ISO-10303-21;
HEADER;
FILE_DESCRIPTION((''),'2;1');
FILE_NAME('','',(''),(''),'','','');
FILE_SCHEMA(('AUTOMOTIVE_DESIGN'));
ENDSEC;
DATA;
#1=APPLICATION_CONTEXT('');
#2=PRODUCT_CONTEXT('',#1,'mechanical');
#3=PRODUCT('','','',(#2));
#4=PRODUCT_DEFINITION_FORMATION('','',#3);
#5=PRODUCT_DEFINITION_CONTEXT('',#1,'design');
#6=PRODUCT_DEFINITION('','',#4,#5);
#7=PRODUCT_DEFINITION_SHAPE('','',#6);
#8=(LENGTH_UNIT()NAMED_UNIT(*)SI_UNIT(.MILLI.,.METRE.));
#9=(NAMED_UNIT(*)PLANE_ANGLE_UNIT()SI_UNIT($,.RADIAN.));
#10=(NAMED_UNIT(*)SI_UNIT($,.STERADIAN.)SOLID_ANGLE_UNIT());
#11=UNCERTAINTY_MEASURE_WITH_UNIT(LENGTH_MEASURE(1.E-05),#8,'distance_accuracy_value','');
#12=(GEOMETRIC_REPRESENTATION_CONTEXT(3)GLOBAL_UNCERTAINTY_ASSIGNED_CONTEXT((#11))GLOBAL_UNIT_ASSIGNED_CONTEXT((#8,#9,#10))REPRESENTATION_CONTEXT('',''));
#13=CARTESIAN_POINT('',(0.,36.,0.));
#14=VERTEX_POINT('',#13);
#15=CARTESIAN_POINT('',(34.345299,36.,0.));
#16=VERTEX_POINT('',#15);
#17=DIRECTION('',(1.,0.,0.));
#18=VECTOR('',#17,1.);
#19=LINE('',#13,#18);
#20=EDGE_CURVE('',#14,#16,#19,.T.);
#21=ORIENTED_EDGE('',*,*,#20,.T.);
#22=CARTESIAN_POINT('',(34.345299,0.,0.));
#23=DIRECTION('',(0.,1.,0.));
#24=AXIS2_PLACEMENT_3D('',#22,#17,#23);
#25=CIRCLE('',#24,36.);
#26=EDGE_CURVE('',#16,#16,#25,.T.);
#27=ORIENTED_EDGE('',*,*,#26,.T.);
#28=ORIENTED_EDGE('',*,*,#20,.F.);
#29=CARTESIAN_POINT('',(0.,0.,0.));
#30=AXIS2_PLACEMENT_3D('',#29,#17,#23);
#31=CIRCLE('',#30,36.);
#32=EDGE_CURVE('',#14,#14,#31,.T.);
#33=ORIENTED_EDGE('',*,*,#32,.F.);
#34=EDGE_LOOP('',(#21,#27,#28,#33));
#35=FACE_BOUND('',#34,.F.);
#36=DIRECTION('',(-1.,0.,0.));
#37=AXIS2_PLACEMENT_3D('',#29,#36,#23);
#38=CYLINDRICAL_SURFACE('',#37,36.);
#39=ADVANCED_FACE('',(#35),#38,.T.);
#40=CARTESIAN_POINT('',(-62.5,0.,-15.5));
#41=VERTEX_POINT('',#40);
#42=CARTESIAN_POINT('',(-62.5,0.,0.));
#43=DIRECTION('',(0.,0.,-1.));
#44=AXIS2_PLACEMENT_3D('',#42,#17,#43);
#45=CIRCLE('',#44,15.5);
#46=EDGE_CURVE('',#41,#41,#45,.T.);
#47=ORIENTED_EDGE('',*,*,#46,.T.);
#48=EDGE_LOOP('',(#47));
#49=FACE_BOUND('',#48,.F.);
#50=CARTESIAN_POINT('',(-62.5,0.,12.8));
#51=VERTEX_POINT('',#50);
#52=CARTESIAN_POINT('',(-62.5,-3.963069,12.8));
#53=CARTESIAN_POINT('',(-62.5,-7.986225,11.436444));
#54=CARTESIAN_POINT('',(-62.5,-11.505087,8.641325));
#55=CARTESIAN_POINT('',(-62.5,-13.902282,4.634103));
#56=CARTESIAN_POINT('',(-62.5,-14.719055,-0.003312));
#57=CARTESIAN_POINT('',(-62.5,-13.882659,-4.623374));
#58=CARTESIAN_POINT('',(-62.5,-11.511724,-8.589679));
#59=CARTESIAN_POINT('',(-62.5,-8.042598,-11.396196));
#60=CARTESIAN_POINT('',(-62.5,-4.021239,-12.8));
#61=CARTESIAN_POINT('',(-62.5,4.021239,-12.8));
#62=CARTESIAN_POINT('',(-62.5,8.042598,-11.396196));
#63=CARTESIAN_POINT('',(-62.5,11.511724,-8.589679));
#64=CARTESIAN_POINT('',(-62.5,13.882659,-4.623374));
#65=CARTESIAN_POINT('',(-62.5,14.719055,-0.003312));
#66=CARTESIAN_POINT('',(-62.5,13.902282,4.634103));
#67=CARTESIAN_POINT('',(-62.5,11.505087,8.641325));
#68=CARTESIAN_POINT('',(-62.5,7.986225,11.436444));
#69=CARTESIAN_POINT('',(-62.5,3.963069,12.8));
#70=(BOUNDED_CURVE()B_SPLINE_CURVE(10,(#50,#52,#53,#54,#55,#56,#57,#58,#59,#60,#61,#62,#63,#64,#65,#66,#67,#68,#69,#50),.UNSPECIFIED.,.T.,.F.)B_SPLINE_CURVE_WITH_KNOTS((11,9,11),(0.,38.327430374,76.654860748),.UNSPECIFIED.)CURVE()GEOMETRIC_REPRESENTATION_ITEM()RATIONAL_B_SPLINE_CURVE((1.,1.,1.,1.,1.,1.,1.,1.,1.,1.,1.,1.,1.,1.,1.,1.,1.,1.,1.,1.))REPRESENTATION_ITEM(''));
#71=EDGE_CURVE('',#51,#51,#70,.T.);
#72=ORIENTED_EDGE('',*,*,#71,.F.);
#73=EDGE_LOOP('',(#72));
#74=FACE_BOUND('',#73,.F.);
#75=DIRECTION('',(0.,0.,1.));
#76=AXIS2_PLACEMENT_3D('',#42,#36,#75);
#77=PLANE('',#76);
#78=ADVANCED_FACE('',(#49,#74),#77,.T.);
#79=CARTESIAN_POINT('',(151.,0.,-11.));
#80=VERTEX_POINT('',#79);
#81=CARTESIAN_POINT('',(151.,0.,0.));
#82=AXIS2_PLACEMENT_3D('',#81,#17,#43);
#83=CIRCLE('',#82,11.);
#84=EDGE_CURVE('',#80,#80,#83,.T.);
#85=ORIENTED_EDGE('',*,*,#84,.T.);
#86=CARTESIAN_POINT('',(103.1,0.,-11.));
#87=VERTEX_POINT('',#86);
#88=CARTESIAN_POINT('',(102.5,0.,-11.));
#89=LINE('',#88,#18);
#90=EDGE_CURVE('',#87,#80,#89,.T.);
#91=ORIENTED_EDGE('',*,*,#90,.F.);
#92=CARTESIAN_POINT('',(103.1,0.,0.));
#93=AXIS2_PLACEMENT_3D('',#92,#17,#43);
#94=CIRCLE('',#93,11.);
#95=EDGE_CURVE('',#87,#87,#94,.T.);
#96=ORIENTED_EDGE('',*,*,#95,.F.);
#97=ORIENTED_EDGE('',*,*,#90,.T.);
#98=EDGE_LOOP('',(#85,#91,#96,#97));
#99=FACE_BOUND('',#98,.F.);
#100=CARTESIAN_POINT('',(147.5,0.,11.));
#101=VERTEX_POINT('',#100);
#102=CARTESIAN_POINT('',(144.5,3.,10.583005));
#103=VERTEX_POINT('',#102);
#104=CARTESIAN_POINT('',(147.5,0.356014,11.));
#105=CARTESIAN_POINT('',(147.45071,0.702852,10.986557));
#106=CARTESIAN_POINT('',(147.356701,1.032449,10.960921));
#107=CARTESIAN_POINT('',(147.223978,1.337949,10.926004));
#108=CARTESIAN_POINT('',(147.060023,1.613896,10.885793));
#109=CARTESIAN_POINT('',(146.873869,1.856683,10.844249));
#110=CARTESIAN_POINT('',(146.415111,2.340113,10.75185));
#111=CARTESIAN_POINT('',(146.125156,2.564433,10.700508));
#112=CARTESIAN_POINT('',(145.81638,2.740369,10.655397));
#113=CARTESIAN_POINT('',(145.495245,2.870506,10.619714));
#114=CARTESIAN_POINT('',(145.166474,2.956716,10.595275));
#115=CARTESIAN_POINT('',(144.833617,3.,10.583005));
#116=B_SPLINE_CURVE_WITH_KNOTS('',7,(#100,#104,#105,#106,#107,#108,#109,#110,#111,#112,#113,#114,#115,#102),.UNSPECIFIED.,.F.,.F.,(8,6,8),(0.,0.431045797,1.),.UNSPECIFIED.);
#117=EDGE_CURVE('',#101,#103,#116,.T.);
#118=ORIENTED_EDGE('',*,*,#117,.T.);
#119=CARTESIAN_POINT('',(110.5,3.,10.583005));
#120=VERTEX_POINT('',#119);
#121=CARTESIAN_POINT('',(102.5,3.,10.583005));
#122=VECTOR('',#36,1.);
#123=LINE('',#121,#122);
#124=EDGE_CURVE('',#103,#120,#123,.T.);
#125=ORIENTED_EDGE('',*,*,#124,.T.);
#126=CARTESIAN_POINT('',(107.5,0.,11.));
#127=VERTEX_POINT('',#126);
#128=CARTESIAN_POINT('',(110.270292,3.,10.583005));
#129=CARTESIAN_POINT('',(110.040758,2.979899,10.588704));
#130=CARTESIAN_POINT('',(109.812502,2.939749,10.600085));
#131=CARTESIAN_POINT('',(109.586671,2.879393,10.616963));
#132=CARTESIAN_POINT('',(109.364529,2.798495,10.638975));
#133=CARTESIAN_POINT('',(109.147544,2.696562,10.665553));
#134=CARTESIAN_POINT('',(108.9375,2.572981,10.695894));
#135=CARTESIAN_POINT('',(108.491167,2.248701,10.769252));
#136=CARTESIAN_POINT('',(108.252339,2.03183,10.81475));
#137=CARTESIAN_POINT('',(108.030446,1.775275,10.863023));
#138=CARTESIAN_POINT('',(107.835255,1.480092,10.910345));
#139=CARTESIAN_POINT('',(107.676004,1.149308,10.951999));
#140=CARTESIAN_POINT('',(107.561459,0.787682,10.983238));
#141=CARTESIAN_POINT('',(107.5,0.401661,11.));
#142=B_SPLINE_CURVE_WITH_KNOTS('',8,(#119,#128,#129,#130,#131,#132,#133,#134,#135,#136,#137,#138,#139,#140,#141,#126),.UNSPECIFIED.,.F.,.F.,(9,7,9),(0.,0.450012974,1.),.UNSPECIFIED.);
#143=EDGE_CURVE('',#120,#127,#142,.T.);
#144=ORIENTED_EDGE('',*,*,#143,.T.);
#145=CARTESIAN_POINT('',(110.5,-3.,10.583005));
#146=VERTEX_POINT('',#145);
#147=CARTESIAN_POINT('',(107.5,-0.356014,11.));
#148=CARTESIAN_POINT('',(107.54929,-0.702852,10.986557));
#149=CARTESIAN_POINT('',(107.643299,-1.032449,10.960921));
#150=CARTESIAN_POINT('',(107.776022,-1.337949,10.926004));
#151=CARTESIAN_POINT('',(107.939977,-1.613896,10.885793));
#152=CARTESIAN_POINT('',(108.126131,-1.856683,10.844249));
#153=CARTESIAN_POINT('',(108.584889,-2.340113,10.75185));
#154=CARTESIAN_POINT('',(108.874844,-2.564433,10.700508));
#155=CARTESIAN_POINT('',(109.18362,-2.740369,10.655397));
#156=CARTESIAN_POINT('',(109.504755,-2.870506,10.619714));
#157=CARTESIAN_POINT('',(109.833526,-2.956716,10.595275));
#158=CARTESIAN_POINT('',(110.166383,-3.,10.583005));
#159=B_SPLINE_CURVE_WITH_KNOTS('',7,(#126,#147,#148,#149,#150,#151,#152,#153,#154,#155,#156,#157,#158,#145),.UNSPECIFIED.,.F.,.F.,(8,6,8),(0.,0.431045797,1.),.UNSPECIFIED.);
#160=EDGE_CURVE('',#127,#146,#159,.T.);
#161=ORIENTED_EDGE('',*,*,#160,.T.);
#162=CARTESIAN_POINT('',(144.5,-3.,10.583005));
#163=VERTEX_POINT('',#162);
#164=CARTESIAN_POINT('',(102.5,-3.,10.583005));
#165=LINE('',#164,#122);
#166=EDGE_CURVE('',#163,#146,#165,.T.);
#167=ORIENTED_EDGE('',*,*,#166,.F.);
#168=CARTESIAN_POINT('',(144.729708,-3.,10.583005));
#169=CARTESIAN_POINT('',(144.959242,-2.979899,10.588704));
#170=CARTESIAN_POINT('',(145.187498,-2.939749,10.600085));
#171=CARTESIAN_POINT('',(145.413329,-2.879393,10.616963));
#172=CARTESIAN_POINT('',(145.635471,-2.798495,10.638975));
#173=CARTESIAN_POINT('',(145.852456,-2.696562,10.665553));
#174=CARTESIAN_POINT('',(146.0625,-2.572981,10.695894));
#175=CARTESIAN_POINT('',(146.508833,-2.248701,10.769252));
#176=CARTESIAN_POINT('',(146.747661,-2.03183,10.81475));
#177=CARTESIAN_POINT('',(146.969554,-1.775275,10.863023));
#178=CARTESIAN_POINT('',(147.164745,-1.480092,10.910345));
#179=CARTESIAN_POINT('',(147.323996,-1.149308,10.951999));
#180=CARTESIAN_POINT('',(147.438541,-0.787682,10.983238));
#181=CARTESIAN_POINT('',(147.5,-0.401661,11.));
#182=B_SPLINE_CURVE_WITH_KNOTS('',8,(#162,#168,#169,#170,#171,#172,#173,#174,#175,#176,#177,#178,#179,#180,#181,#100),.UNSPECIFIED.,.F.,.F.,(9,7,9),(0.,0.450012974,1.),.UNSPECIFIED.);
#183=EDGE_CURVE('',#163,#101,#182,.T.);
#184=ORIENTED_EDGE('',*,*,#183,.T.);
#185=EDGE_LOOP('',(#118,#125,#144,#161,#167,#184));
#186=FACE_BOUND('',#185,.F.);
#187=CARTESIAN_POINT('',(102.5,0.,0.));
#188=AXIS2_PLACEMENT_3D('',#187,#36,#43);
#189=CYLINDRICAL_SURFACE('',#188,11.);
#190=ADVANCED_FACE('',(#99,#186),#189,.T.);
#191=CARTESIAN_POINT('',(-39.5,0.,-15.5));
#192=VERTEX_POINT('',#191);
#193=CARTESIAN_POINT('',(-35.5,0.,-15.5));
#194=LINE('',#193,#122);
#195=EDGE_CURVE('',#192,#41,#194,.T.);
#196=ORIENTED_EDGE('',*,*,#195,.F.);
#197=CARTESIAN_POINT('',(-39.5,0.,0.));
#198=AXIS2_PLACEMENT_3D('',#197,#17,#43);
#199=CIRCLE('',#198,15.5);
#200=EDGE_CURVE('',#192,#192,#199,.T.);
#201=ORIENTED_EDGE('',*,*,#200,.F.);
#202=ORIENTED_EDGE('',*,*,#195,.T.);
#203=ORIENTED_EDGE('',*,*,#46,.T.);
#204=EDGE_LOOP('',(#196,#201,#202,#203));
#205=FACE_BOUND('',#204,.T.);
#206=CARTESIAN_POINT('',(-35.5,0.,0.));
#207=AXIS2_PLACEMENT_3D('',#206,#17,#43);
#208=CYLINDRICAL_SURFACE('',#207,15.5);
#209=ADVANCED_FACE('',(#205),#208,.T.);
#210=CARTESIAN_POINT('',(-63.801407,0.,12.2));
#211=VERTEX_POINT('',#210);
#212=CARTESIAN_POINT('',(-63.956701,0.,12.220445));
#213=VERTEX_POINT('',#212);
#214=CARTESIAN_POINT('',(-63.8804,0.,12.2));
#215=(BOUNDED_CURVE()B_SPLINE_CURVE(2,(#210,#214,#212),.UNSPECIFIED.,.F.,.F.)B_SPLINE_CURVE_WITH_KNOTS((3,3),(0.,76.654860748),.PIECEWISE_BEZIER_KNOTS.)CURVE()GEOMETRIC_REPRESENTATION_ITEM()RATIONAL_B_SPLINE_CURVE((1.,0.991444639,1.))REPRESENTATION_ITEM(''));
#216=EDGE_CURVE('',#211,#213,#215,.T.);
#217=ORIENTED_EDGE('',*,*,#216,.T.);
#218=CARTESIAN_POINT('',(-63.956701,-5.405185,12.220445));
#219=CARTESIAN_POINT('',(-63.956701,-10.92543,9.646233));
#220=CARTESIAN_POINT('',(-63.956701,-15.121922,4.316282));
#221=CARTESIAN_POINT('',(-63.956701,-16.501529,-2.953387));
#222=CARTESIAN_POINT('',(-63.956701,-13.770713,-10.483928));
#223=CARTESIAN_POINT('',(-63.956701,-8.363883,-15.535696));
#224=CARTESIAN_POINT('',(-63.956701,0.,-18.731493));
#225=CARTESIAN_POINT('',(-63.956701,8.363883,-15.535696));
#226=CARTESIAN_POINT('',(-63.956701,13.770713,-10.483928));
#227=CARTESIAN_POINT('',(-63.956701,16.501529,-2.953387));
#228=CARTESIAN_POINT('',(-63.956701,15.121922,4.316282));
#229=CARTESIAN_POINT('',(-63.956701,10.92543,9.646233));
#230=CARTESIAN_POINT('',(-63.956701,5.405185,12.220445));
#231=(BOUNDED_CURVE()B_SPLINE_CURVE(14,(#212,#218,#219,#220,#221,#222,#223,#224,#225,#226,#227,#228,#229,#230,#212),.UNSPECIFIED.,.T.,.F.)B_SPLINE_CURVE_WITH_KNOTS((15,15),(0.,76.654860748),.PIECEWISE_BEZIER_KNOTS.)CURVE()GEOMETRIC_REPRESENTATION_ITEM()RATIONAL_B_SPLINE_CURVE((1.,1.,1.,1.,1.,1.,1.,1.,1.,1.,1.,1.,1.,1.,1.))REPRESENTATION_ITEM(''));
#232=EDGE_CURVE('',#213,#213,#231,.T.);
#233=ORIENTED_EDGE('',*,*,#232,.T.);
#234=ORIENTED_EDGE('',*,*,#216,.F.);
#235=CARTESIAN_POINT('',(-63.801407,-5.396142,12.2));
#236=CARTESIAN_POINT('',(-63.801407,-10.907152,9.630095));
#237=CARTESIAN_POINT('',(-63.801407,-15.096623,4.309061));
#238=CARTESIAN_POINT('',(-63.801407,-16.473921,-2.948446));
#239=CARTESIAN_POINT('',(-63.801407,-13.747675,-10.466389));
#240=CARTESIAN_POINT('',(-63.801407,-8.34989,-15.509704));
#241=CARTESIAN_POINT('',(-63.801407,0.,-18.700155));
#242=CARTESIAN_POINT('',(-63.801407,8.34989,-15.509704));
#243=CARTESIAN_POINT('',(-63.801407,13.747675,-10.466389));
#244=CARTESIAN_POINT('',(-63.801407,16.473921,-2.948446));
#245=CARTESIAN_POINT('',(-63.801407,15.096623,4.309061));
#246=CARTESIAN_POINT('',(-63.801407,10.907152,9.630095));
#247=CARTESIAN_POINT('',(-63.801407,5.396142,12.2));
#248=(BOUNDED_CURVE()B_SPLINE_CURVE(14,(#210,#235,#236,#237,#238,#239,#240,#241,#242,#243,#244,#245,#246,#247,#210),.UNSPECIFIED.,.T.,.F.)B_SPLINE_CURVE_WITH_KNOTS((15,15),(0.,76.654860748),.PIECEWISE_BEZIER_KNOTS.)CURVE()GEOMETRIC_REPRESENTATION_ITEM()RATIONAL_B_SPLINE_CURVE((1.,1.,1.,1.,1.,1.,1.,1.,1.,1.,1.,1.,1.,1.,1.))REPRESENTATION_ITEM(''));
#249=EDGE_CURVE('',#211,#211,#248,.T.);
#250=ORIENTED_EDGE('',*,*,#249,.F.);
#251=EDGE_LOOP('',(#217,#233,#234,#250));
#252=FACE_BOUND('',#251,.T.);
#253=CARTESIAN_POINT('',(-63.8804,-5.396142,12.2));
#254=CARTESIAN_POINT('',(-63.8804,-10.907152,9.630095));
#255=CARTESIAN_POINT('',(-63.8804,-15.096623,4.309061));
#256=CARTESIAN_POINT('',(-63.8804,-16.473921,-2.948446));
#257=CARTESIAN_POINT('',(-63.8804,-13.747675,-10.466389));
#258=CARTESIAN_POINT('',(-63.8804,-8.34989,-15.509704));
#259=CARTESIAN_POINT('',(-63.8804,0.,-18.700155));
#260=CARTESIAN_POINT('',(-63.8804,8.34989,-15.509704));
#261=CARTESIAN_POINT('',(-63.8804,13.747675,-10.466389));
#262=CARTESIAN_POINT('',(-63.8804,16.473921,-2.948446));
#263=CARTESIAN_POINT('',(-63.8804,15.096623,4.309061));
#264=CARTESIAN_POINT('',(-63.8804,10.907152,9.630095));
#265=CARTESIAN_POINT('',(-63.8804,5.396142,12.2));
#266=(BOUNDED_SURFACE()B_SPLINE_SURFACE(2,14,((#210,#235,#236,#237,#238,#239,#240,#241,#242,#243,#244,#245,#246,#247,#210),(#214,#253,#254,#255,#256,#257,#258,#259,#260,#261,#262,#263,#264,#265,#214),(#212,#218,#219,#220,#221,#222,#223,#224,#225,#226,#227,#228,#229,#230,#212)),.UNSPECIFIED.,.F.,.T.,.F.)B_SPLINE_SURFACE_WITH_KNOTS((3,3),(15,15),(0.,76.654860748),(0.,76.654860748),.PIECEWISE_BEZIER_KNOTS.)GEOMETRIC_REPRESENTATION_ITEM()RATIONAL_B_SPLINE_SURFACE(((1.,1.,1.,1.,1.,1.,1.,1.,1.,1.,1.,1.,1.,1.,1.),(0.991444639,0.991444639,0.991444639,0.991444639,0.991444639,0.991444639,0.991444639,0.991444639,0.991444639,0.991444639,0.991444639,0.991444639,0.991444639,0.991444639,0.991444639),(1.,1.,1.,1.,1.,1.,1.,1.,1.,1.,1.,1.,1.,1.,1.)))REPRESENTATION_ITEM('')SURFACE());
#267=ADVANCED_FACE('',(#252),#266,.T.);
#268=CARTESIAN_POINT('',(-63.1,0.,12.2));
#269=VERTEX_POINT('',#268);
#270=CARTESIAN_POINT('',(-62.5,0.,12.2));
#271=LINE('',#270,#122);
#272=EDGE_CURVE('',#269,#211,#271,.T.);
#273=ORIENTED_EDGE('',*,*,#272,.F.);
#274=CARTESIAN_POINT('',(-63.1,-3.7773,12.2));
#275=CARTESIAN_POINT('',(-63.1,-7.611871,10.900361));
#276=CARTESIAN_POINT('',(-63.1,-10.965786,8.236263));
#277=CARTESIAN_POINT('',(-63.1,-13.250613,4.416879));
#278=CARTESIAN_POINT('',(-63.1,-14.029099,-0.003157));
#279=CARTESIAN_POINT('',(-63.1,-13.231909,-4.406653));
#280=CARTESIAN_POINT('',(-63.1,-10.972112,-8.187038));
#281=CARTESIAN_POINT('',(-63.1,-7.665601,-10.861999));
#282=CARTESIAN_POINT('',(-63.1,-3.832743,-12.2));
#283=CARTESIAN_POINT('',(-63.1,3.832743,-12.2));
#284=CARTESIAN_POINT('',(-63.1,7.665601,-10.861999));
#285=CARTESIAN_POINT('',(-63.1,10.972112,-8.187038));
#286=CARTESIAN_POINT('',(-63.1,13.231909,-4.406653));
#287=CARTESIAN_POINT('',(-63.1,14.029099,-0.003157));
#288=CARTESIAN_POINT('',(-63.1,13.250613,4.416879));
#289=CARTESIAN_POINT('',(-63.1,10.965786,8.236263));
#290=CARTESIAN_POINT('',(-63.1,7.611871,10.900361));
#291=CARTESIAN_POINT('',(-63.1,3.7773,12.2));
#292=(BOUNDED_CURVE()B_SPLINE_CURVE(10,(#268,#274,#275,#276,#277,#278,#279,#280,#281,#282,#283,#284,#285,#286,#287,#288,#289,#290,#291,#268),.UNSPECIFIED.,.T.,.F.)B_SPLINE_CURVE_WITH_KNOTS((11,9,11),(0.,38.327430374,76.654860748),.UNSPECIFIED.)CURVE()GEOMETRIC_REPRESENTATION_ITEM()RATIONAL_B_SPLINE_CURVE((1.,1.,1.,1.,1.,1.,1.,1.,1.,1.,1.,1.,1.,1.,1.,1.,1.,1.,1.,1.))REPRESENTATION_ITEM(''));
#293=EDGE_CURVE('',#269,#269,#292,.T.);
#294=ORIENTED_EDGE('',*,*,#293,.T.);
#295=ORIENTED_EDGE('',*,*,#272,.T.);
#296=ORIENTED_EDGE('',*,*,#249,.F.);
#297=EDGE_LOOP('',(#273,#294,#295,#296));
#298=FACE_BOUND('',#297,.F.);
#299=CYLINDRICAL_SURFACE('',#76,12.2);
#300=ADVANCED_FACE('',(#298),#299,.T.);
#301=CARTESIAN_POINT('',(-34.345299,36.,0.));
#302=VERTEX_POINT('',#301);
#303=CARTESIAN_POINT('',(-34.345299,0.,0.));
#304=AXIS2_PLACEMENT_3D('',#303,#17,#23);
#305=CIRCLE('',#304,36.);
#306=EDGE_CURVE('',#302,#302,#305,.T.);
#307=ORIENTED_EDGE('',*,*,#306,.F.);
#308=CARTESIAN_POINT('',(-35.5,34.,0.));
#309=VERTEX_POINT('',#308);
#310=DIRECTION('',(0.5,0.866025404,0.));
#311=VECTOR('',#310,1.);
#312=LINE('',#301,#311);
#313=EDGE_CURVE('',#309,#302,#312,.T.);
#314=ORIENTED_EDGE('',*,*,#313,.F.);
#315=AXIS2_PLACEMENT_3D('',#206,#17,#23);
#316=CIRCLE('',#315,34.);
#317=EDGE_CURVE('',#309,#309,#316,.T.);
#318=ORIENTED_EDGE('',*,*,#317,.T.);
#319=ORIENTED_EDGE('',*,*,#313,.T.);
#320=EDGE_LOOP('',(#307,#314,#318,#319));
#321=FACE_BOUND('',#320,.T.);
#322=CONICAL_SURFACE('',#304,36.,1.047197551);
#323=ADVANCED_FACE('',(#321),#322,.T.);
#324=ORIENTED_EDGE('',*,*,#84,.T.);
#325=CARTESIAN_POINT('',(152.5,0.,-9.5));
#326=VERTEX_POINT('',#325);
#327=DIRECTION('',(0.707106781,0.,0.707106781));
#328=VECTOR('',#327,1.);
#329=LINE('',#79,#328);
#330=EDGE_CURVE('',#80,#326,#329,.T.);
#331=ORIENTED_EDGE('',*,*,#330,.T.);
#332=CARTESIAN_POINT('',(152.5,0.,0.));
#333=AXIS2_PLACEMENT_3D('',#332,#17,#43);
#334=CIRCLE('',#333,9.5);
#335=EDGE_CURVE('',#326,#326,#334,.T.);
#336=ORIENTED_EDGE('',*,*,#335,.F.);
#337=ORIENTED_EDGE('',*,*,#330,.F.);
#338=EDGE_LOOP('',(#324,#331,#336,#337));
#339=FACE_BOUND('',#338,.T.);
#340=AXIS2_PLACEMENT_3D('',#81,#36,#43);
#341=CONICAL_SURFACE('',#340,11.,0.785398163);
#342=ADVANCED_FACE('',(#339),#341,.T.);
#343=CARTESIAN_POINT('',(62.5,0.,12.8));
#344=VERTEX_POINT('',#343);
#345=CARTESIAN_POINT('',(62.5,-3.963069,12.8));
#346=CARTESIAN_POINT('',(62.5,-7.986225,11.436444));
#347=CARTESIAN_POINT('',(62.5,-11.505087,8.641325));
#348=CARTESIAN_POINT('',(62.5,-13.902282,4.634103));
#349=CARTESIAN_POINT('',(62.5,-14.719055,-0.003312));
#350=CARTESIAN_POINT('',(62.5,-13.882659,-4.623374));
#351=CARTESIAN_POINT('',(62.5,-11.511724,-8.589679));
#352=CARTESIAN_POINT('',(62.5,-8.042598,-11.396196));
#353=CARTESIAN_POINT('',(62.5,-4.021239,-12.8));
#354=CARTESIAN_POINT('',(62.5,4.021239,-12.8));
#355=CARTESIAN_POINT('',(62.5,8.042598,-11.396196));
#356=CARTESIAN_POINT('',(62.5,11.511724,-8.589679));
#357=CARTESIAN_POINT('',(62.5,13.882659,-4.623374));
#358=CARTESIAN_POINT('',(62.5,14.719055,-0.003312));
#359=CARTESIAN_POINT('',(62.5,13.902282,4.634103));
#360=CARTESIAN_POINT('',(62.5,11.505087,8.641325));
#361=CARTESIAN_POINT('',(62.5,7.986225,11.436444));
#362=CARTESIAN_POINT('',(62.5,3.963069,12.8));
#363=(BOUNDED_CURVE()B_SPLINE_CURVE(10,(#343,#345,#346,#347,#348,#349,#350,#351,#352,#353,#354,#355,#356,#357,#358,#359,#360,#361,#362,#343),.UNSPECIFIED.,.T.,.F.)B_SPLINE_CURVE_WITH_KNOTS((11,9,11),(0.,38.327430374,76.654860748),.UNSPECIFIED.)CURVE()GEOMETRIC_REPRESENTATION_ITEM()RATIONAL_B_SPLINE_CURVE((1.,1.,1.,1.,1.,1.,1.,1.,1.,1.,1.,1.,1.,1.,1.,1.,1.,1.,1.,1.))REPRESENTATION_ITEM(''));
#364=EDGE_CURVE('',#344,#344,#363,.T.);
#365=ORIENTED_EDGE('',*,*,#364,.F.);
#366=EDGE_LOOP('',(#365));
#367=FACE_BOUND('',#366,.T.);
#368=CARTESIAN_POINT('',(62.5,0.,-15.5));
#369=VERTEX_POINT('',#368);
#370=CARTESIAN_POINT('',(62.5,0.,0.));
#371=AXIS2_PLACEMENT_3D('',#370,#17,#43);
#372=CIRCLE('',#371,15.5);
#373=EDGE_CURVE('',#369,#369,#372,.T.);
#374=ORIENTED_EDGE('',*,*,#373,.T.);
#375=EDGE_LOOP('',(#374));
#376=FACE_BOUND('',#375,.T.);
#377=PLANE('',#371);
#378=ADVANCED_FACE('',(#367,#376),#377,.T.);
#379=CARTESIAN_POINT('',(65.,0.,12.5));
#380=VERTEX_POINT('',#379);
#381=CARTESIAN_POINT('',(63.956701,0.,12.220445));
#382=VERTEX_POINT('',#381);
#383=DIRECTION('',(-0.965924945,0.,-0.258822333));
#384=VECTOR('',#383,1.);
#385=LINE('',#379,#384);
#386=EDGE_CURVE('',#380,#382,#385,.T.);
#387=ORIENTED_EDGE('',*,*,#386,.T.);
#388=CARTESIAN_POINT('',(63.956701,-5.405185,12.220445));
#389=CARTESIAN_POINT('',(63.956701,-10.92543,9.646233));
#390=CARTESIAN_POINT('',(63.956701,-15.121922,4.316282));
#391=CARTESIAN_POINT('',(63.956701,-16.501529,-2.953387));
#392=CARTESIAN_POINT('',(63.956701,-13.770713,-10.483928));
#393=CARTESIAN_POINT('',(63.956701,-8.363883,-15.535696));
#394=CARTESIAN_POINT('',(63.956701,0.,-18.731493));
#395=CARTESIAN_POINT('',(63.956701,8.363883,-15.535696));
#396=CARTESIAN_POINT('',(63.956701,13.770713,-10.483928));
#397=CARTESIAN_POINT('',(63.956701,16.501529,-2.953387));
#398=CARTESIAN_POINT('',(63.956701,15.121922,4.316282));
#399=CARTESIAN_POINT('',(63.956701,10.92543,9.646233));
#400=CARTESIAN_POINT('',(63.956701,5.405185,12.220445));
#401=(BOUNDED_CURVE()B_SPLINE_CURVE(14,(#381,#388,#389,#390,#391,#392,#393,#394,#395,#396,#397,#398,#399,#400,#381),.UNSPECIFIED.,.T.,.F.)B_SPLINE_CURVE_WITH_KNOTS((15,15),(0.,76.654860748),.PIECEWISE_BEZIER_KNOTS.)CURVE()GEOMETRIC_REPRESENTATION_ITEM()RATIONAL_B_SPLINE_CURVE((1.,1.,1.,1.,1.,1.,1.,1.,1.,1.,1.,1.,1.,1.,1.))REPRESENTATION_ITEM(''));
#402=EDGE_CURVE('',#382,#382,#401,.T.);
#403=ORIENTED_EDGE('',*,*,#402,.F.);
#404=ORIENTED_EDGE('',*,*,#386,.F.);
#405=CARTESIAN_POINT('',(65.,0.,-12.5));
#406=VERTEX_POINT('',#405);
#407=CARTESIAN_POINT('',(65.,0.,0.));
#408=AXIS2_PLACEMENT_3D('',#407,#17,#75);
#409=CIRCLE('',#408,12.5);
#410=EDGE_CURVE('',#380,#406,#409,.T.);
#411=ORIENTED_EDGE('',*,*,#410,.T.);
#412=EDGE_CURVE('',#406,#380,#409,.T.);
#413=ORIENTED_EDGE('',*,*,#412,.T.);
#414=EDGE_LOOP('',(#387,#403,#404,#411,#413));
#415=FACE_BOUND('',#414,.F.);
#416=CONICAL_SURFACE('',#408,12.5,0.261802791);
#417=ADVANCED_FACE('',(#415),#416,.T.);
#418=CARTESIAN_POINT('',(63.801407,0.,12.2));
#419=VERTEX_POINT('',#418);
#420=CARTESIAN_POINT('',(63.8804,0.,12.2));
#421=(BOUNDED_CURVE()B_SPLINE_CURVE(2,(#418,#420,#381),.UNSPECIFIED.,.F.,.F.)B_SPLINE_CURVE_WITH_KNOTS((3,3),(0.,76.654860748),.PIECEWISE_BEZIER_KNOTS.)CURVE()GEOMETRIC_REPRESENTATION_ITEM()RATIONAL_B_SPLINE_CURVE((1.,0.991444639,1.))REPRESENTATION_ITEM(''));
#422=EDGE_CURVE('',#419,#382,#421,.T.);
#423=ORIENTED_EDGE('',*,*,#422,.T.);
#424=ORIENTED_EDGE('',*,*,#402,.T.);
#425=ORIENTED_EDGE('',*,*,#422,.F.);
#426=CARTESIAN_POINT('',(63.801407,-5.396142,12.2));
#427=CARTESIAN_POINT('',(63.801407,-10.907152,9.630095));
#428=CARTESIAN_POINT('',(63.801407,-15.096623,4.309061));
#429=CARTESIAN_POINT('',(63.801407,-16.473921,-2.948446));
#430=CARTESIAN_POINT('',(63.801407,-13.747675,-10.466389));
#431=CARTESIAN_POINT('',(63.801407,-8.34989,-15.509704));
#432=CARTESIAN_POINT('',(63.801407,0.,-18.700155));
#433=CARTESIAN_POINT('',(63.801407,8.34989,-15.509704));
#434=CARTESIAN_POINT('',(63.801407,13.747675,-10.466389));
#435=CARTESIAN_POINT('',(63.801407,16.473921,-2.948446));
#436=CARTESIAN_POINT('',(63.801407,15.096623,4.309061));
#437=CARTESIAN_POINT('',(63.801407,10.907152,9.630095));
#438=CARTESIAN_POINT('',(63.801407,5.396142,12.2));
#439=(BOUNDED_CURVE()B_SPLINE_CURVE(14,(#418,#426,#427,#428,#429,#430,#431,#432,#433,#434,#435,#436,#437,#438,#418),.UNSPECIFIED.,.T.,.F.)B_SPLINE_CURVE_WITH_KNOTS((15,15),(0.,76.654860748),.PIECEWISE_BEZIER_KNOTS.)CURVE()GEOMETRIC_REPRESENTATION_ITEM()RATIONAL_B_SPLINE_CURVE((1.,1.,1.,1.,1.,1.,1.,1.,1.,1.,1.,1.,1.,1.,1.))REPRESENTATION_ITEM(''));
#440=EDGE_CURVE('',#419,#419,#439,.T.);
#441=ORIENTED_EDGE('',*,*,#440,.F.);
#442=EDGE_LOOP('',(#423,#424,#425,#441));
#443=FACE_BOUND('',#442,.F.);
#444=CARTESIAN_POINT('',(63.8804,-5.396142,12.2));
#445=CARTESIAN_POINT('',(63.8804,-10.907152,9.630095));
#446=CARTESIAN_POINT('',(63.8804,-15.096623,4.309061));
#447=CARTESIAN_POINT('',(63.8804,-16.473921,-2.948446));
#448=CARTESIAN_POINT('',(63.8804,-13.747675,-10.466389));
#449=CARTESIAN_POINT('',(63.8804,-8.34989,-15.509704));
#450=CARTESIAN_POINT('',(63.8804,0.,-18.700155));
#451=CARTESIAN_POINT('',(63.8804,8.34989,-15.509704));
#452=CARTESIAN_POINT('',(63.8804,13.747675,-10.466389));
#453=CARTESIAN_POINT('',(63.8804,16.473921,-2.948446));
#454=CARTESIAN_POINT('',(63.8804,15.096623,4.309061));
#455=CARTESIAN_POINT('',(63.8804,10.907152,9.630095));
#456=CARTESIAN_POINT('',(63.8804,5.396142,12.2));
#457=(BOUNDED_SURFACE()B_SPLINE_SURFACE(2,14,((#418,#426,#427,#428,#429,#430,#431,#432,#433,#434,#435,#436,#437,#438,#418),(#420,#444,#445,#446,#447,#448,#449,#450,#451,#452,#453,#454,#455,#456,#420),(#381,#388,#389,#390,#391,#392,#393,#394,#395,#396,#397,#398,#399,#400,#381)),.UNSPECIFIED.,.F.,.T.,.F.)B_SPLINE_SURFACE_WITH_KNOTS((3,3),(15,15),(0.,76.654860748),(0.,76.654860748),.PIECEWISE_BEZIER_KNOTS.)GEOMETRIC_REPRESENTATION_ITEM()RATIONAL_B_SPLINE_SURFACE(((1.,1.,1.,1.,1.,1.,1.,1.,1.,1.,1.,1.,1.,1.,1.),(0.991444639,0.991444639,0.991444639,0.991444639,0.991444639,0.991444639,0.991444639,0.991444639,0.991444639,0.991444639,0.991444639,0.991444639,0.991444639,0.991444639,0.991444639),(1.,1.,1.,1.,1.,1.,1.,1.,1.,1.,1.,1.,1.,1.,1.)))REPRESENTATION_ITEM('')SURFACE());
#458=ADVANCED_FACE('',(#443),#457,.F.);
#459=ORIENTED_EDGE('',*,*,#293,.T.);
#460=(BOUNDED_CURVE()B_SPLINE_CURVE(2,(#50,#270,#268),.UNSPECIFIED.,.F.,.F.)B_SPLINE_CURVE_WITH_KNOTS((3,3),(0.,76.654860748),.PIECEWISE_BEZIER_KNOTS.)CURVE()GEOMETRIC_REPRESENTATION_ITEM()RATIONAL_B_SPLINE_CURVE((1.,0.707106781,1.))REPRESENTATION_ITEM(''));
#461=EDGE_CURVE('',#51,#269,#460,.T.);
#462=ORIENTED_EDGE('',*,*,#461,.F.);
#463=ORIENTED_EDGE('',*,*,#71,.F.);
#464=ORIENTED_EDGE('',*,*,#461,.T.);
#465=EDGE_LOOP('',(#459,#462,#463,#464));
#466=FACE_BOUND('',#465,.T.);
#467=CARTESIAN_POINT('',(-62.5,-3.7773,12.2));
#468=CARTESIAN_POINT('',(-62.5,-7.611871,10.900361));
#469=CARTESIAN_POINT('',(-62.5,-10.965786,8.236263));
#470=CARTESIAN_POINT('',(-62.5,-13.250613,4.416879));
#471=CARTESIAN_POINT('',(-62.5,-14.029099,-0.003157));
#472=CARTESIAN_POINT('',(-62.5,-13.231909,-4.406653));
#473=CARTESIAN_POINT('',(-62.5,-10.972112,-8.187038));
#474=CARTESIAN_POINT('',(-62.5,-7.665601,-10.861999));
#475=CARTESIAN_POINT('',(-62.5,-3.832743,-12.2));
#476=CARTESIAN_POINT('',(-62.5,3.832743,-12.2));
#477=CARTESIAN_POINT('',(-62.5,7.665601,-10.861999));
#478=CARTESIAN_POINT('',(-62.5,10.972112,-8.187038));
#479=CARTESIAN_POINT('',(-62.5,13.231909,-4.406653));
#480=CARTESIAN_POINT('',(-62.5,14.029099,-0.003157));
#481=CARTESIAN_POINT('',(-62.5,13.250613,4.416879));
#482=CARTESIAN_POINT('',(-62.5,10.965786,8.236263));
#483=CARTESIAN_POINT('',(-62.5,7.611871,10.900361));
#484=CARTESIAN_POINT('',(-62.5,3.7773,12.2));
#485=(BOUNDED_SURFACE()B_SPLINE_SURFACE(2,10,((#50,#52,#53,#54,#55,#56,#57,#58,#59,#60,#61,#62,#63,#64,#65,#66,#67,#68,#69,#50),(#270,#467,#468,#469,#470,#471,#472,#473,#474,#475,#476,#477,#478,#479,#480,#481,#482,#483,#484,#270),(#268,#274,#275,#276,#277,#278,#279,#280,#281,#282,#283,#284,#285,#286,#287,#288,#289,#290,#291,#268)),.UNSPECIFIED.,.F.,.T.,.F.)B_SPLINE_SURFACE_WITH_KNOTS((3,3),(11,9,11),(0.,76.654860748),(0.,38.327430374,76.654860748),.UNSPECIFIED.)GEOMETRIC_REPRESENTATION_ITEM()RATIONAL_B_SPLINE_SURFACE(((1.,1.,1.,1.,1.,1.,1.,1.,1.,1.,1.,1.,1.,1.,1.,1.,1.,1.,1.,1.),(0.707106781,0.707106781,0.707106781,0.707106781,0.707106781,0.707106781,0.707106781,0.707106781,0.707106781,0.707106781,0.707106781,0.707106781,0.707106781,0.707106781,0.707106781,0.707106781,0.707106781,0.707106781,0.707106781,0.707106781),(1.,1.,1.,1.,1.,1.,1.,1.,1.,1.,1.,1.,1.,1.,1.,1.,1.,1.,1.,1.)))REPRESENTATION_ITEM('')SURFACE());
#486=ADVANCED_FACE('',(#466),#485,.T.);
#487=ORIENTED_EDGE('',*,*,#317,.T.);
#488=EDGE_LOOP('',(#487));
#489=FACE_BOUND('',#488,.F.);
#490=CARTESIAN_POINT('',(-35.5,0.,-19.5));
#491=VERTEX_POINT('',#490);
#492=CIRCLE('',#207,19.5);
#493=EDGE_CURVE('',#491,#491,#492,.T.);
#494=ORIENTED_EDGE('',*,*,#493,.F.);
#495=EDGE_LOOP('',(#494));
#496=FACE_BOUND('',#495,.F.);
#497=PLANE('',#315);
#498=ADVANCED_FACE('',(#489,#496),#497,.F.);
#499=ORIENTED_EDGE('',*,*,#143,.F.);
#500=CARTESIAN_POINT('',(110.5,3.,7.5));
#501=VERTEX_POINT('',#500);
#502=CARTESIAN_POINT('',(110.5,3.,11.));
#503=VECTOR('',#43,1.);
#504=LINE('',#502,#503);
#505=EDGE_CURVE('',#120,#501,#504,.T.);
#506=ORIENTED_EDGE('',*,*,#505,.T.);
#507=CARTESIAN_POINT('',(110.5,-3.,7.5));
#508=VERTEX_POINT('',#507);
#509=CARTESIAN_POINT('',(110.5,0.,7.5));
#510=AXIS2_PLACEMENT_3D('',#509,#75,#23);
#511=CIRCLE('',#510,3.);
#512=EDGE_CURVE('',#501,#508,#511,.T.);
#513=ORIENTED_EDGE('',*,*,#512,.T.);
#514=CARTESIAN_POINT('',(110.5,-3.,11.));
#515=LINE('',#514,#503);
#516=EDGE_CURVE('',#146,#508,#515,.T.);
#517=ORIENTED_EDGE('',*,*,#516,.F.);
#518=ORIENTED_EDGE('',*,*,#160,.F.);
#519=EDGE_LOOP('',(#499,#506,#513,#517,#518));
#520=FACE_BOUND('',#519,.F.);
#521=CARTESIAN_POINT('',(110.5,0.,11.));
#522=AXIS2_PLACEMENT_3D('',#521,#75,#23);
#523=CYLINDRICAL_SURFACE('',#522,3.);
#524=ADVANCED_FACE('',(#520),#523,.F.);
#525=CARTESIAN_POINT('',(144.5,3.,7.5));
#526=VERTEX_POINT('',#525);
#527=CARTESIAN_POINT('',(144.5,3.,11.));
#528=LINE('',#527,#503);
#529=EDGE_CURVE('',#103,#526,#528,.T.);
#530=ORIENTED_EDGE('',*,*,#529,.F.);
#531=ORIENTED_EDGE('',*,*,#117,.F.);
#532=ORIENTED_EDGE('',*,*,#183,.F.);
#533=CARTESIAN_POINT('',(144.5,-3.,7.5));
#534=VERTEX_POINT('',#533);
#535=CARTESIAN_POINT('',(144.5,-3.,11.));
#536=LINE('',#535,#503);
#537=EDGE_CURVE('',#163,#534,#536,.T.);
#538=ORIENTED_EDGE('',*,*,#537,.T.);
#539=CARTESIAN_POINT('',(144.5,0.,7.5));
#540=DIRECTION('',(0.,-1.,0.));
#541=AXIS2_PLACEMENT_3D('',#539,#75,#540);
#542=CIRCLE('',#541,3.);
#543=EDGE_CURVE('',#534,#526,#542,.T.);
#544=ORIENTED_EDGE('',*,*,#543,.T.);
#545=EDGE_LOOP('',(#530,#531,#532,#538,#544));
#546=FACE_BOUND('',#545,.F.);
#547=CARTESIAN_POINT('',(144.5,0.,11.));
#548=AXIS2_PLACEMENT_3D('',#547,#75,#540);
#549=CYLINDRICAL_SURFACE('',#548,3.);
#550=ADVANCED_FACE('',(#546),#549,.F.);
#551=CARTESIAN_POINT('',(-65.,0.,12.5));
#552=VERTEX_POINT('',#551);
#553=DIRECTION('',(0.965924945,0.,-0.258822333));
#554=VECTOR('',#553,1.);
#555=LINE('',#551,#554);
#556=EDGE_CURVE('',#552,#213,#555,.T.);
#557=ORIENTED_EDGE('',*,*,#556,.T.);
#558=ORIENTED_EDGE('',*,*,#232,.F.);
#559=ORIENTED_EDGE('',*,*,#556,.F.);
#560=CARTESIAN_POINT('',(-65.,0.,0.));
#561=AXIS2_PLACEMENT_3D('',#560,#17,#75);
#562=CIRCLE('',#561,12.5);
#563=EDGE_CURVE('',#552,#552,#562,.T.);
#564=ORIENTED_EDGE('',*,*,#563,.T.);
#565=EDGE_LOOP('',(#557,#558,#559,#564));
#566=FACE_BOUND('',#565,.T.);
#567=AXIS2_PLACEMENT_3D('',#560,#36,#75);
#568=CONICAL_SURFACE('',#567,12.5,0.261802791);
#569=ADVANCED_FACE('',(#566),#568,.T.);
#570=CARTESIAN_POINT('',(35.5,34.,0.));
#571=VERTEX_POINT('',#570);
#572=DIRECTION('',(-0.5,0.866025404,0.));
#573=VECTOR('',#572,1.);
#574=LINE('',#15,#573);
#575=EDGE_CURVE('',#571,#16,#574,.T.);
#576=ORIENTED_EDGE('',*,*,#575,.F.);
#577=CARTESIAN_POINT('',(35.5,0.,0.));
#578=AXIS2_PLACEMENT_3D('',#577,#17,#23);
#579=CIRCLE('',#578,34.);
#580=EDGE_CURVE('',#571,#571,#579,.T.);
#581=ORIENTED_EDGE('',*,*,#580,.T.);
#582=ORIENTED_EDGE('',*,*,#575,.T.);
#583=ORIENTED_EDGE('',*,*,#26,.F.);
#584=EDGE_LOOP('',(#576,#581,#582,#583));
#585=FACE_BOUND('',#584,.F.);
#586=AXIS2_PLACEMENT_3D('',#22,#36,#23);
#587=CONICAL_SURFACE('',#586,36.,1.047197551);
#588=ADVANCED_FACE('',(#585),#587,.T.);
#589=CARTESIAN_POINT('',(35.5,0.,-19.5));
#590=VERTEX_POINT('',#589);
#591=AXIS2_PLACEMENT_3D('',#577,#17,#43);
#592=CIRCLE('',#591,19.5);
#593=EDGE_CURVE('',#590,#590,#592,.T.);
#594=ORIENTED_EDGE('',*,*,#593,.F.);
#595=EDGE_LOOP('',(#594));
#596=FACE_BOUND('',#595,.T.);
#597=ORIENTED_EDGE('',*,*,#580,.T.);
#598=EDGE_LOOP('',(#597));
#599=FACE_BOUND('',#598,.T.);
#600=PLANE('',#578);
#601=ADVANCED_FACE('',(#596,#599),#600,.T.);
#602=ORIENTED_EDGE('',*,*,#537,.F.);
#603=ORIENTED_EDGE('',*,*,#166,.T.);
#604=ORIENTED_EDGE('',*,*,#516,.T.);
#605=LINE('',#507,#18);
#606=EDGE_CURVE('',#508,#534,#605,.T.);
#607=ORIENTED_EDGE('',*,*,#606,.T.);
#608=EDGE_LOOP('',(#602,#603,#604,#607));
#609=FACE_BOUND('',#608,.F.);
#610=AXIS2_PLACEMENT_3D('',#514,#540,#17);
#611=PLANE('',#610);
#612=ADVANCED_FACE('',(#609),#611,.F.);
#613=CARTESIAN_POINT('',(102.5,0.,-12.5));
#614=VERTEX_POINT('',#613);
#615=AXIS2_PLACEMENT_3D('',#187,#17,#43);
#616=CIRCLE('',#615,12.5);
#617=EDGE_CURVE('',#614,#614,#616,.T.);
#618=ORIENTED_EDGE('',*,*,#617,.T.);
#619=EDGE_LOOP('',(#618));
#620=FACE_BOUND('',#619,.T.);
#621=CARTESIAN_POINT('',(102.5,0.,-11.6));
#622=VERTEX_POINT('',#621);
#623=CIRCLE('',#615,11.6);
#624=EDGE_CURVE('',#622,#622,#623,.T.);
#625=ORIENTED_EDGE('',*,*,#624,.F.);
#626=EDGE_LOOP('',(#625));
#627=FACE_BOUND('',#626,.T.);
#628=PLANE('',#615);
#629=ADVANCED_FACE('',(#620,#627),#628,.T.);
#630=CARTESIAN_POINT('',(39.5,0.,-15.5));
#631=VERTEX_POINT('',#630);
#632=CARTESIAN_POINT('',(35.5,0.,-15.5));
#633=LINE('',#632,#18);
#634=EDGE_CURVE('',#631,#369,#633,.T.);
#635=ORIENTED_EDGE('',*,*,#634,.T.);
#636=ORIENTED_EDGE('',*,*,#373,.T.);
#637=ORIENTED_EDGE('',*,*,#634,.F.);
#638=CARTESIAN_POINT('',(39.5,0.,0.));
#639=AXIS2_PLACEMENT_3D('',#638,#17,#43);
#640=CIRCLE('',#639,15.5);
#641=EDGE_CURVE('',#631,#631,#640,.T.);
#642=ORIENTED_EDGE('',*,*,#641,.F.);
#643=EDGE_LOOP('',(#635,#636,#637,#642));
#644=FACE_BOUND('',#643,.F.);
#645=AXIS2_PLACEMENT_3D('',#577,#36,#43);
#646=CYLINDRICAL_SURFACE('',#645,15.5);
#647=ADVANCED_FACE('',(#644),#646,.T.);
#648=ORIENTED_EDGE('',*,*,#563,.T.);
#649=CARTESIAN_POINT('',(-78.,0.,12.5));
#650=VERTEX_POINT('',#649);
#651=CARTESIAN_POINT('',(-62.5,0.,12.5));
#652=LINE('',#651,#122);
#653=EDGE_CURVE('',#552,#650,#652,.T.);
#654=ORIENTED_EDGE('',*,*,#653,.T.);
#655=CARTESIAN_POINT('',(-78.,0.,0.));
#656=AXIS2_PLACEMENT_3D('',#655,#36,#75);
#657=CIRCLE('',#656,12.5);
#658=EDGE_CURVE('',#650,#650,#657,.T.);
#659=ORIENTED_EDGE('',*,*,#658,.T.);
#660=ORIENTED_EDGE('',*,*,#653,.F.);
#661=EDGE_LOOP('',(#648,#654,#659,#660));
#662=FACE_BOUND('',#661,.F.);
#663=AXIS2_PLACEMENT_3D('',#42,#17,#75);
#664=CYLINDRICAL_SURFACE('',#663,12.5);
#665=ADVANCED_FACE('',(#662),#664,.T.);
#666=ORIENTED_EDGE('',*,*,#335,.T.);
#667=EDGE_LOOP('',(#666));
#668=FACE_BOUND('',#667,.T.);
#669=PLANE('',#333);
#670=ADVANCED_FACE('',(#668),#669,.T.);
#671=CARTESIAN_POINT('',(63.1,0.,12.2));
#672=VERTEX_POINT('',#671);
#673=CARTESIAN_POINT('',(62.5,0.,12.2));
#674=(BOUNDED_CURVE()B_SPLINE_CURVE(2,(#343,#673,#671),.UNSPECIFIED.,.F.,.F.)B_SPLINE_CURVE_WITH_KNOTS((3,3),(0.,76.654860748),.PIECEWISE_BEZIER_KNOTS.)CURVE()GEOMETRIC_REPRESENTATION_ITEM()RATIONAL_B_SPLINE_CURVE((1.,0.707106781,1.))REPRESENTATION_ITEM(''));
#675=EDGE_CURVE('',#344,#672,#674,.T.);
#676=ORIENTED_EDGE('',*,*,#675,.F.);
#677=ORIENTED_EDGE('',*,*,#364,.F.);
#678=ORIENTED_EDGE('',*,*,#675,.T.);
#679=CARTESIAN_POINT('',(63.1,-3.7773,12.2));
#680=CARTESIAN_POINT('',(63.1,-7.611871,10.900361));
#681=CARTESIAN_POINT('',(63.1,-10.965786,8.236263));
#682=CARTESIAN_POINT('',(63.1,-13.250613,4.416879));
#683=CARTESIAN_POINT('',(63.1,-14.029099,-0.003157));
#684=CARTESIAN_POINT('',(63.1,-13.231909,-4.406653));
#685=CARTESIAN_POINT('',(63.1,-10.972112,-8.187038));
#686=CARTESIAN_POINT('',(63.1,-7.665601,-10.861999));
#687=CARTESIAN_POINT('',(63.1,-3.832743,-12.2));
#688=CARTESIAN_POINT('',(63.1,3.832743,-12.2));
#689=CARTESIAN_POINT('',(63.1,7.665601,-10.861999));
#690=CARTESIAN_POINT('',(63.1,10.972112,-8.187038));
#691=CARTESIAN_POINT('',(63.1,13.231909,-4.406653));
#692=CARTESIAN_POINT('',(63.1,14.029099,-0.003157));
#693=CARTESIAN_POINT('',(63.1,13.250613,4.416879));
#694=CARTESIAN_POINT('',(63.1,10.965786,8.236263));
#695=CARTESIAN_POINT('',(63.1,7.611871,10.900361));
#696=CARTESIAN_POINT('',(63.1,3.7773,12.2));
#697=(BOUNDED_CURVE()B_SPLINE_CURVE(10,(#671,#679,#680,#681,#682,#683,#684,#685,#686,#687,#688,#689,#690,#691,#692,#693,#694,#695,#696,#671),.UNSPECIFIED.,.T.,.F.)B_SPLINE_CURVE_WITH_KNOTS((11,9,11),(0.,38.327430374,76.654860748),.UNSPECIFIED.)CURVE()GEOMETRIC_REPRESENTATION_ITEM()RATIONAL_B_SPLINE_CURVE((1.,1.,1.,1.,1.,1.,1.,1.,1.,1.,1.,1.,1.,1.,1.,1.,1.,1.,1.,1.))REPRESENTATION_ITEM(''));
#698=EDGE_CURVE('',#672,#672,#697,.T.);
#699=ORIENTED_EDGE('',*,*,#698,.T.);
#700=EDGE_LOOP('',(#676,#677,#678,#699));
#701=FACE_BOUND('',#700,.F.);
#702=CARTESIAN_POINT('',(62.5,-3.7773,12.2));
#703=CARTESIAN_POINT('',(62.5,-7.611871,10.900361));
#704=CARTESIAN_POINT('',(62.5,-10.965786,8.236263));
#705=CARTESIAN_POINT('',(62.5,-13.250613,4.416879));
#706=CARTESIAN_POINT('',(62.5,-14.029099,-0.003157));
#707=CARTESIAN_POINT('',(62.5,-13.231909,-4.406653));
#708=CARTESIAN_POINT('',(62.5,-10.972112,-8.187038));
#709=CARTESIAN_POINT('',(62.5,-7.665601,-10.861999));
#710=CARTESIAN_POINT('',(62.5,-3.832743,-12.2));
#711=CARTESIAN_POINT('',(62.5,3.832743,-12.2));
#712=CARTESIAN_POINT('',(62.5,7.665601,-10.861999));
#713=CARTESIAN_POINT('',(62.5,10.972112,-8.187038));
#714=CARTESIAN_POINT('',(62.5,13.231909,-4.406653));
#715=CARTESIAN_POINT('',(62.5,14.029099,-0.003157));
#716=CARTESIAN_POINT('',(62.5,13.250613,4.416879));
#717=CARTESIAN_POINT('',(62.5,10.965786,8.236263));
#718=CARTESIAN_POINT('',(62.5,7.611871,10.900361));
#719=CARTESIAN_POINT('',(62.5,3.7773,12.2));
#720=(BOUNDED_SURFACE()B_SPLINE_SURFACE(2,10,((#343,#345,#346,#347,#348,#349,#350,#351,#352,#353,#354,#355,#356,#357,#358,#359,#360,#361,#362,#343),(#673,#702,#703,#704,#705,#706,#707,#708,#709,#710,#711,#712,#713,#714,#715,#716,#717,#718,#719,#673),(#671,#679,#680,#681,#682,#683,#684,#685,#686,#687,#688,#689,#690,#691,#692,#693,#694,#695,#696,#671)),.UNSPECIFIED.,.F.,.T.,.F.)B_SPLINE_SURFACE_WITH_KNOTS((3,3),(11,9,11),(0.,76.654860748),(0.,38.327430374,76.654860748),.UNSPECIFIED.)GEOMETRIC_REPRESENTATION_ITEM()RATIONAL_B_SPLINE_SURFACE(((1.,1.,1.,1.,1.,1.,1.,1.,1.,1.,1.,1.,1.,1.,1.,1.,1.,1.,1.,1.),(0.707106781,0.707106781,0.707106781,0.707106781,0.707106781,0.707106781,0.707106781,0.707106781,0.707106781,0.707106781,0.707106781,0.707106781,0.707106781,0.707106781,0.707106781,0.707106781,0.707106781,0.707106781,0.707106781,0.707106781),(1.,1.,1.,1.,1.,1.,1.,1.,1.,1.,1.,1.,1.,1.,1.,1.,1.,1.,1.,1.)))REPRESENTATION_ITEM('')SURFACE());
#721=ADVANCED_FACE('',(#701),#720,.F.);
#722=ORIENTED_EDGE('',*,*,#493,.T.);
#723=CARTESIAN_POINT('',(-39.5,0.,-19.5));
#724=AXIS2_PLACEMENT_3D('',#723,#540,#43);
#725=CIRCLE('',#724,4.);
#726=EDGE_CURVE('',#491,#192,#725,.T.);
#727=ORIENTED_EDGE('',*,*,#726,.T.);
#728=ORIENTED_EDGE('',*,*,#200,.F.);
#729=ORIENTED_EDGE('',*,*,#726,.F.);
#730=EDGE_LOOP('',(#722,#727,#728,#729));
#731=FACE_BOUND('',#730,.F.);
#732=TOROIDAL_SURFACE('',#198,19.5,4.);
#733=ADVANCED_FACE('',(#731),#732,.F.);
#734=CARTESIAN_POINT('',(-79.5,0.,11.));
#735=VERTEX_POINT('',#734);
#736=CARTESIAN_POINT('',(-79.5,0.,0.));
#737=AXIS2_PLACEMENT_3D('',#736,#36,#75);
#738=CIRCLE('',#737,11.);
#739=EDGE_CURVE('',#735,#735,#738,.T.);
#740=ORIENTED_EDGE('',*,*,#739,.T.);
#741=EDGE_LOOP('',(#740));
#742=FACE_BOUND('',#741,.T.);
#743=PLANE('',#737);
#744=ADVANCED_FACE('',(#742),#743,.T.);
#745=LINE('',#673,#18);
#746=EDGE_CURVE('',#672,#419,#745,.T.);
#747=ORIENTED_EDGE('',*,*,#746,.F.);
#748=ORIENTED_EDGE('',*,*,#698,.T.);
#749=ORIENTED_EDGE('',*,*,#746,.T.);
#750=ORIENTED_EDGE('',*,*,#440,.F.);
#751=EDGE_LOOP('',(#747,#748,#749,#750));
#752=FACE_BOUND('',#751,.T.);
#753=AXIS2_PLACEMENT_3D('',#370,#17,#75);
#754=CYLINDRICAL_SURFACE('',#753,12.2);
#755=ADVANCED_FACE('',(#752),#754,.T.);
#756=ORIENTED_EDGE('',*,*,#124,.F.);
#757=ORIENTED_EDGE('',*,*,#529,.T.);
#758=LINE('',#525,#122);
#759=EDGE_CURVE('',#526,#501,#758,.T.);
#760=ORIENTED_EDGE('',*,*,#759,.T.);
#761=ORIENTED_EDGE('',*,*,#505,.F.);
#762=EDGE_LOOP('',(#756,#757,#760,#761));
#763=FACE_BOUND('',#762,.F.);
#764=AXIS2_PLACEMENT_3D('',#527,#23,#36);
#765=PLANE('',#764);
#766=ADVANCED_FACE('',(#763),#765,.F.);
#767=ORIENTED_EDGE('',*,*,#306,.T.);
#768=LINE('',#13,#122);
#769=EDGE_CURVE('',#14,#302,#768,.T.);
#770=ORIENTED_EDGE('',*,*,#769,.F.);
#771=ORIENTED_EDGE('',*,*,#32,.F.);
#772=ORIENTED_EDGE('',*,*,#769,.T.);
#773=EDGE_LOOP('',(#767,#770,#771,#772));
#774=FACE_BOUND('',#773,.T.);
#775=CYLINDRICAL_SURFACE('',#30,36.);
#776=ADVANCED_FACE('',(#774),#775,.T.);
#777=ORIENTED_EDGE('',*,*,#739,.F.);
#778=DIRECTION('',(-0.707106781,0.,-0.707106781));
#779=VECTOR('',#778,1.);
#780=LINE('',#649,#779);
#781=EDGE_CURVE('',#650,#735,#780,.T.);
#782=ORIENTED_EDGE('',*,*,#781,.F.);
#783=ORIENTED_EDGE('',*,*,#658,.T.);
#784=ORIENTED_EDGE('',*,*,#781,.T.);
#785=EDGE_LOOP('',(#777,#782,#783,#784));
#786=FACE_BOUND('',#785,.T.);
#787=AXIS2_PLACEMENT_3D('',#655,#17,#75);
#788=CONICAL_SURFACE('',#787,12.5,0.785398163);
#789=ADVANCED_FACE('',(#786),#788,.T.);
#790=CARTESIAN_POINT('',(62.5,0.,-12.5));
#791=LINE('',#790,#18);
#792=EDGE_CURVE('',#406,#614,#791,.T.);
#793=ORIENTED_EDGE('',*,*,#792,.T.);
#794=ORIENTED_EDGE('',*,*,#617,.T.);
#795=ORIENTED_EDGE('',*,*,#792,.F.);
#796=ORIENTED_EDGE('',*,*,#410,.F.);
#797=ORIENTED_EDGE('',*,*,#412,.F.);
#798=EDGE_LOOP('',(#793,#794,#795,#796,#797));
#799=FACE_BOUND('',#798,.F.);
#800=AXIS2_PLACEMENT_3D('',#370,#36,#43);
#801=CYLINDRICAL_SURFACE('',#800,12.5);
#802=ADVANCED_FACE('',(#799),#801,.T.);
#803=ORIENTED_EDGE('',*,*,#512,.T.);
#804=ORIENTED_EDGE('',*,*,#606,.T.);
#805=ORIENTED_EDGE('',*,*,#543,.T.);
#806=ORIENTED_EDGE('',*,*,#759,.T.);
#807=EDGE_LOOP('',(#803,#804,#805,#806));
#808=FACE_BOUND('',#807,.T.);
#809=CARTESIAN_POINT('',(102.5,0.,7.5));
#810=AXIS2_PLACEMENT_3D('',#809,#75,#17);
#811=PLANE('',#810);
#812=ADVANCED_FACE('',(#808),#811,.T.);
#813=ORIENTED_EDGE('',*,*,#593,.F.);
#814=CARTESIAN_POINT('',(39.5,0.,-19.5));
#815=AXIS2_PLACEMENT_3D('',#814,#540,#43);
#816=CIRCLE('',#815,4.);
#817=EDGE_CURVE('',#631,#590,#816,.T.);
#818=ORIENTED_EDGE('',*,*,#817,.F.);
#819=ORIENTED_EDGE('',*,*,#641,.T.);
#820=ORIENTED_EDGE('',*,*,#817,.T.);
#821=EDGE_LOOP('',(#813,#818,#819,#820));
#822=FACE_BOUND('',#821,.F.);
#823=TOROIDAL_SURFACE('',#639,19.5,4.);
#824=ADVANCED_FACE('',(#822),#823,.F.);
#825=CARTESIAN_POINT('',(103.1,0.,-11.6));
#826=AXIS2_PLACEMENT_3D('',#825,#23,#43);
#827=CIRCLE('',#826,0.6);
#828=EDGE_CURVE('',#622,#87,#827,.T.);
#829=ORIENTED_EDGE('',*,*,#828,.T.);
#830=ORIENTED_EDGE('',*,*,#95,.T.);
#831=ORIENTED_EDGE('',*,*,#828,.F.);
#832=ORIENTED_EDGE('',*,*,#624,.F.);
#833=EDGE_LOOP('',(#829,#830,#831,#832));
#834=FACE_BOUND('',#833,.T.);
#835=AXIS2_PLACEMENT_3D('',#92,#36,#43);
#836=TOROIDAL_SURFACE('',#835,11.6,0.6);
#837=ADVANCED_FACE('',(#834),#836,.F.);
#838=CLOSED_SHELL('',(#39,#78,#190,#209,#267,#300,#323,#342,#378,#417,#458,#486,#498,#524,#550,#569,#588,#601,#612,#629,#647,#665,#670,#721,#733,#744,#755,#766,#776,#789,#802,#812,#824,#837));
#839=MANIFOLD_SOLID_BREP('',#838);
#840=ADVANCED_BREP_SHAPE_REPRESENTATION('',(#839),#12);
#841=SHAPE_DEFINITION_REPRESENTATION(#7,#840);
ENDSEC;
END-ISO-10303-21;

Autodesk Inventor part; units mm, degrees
sketch "Sketch1" plane through (0, 0, 0) normal (1, 0, 0) x (0, 1, 0)
  circle A0 centre (0, 0) radius 36
  dimension "d0" = 72
extrude "Extrusion1" add sketch "Sketch1" along normal mid plane 71
sketch "Sketch2" plane through (35.5, 0, 0) normal (1, 0, 0) x (0, 0, -1)
  circle A0 centre (0, 0) radius 15.5
  dimension "d3" = 31
extrude "Extrusion2" add sketch "Sketch2" along normal blind 27
sketch "Sketch3" plane through (62.5, 0, 0) normal (1, 0, 0) x (0, 0, -1)
  circle A0 centre (0, 0) radius 12.5
  dimension "d6" = 25
extrude "Extrusion3" add sketch "Sketch3" along normal blind 40
sketch "Sketch4" plane through (102.5, 0, 0) normal (1, 0, 0) x (0, 0, -1)
  circle A0 centre (0, 0) radius 11
  dimension "d9" = 22
extrude "Extrusion4" add sketch "Sketch4" along normal blind 50
mirror "Mirror1" about plane through (0, 0, 0) normal (1, 0, 0) of "Extrusion2"
sketch "Sketch5" plane through (-62.5, 0, 0) normal (-1, 0, 0) x (0, 0, 1)
  circle A0 centre (0, 0) radius 12.5
  dimension "d12" = 25
extrude "Extrusion5" add sketch "Sketch5" along normal blind 17
ref_plane "Work Plane1" through (102.5, 0, 11) normal (0, 0, 1) x (1, 0, 0)
sketch "Sketch6" plane through (102.5, 0, 11) normal (0, 0, 1) x (1, 0, 0)
  line L0 (8, 0) -> (42, 0) construction
  line L1 (8, -3) -> (42, -3)
  line L2 (42, 3) -> (8, 3)
  arc A0 (8, 3) -> (8, -3) centre (8, 0) ccw
  arc A1 (42, -3) -> (42, 3) centre (42, 0) ccw
  line L3 (50, -11) -> (50, 11) construction
  line L4 (-228.4, 0) -> (96.4, 0) construction
  line L5 (0, -12.5) -> (0, 12.5) construction
  point P0 (-102.5, 0)
  point P1 (25, 0)
  dimension "d15" = 34
  dimension "d16" = 6
  dimension "d18" = 5
extrude "Extrusion6" cut sketch "Sketch6" against normal blind 3.5
sketch "Sketch7" plane through (0, 0, 0) normal (0, 1, 0) x (-1, 0, 0)
  line L0 (-35.5, -15.5) -> (-62.5, -15.5) construction
  line L1 (-62.5, -15.5) -> (-62.5, -12.5) construction
  line L2 (-62.5, -12.5) -> (-102.5, -12.5) construction
  line L3 (-102.5, -12.5) -> (-102.5, -11) construction
  line L4 (-102.5, -11) -> (-152.5, -11) construction
  line L5 (-152.5, -11) -> (-152.5, 11) construction
  line L6 (-152.5, 11) -> (-147.5, 11) construction
  line L7 (-147.5, 11) -> (-147.5, 7.5) construction
  line L8 (-147.5, 7.5) -> (-107.5, 7.5) construction
  line L9 (-107.5, 7.5) -> (-107.5, 11) construction
  line L10 (-107.5, 11) -> (-102.5, 11) construction
  line L11 (-102.5, 11) -> (-102.5, 12.5) construction
  line L12 (-102.5, 12.5) -> (-62.5, 12.5) construction
  line L13 (-62.5, 12.5) -> (-62.5, 15.5) construction
  line L14 (-62.5, 15.5) -> (-35.5, 15.5) construction
  line L15 (-35.5, 15.5) -> (-35.5, 36) construction
  line L16 (-35.5, 36) -> (35.5, 36) construction
  line L17 (35.5, 36) -> (35.5, 15.5) construction
  line L18 (35.5, 15.5) -> (62.5, 15.5) construction
  line L19 (62.5, 15.5) -> (62.5, 12.5) construction
  line L20 (62.5, 12.5) -> (79.5, 12.5) construction
  line L21 (79.5, 12.5) -> (79.5, -12.5) construction
  line L22 (79.5, -12.5) -> (62.5, -12.5) construction
  line L23 (62.5, -12.5) -> (62.5, -15.5) construction
  line L24 (62.5, -15.5) -> (35.5, -15.5) construction
  line L25 (35.5, -15.5) -> (35.5, -36) construction
  line L26 (35.5, -36) -> (-35.5, -36) construction
  line L27 (-35.5, -36) -> (-35.5, -15.5) construction
  line L28 (-65, 15.4374) -> (-65, 12.5) construction
  line L29 (-62.5, 12.5) -> (-102.5, 12.5) construction
  line L30 (-65, 12.5) -> (-62.5, 12.5)
  line L31 (-62.5, 12.2) -> (-63.8804, 12.2)
  line L32 (-62.5, 15.5) -> (-62.5, -15.5) construction
  line L33 (-65, 12.5) -> (-63.8804, 12.2)
  line L34 (-62.5, 12.5) -> (-65, 12.5) construction
  line L35 (-62.5, 12.5) -> (-62.5, 12.2)
  line L36 (125.9, 0) -> (-198.9, 0) projected
  point P0 (0, 0)
  dimension "d21" = 2.5
  dimension "d24" = 0.3
  dimension "d25" = 15
revolve "Revolution1" cut sketch "Sketch7" angle 360 about axis through (-10, 0, 0) along (1, 0, 0)
mirror "Mirror2" about plane through (0, 0, 0) normal (1, 0, 0) of "Revolution1"
fillet "Fillet1" radius 0.6 1 edges at (62.5, 0, -12.2)
fillet "Fillet2" radius 0.6 1 edges at (63.8804, 0, -12.2)
fillet "Fillet3" radius 0.6 1 edges at (-62.5, 0, -12.2)
fillet "Fillet4" radius 0.6 1 edges at (-63.8804, 0, -12.2)
fillet "Fillet5" radius 0.6 1 edges at (102.5, 0, 11)
fillet "Fillet6" radius 4 2 edges at (35.5, 0, 15.5) (-35.5, 0, 15.5)
chamfer "Chamfer1" distance 1.5 angle 45 2 edges at (-79.5, 0, -12.5) (152.5, 0, 11)
chamfer "Chamfer2" distance 2 angle 30 1 edges at (35.5, -36, 0) measured on face at (35.5, -30.2903, -0.7835)
chamfer "Chamfer3" distance 2 angle 30 1 edges at (-35.5, -36, 0) measured on face at (-35.5, -30.2903, -0.7835)
properties part number "vratilo"
